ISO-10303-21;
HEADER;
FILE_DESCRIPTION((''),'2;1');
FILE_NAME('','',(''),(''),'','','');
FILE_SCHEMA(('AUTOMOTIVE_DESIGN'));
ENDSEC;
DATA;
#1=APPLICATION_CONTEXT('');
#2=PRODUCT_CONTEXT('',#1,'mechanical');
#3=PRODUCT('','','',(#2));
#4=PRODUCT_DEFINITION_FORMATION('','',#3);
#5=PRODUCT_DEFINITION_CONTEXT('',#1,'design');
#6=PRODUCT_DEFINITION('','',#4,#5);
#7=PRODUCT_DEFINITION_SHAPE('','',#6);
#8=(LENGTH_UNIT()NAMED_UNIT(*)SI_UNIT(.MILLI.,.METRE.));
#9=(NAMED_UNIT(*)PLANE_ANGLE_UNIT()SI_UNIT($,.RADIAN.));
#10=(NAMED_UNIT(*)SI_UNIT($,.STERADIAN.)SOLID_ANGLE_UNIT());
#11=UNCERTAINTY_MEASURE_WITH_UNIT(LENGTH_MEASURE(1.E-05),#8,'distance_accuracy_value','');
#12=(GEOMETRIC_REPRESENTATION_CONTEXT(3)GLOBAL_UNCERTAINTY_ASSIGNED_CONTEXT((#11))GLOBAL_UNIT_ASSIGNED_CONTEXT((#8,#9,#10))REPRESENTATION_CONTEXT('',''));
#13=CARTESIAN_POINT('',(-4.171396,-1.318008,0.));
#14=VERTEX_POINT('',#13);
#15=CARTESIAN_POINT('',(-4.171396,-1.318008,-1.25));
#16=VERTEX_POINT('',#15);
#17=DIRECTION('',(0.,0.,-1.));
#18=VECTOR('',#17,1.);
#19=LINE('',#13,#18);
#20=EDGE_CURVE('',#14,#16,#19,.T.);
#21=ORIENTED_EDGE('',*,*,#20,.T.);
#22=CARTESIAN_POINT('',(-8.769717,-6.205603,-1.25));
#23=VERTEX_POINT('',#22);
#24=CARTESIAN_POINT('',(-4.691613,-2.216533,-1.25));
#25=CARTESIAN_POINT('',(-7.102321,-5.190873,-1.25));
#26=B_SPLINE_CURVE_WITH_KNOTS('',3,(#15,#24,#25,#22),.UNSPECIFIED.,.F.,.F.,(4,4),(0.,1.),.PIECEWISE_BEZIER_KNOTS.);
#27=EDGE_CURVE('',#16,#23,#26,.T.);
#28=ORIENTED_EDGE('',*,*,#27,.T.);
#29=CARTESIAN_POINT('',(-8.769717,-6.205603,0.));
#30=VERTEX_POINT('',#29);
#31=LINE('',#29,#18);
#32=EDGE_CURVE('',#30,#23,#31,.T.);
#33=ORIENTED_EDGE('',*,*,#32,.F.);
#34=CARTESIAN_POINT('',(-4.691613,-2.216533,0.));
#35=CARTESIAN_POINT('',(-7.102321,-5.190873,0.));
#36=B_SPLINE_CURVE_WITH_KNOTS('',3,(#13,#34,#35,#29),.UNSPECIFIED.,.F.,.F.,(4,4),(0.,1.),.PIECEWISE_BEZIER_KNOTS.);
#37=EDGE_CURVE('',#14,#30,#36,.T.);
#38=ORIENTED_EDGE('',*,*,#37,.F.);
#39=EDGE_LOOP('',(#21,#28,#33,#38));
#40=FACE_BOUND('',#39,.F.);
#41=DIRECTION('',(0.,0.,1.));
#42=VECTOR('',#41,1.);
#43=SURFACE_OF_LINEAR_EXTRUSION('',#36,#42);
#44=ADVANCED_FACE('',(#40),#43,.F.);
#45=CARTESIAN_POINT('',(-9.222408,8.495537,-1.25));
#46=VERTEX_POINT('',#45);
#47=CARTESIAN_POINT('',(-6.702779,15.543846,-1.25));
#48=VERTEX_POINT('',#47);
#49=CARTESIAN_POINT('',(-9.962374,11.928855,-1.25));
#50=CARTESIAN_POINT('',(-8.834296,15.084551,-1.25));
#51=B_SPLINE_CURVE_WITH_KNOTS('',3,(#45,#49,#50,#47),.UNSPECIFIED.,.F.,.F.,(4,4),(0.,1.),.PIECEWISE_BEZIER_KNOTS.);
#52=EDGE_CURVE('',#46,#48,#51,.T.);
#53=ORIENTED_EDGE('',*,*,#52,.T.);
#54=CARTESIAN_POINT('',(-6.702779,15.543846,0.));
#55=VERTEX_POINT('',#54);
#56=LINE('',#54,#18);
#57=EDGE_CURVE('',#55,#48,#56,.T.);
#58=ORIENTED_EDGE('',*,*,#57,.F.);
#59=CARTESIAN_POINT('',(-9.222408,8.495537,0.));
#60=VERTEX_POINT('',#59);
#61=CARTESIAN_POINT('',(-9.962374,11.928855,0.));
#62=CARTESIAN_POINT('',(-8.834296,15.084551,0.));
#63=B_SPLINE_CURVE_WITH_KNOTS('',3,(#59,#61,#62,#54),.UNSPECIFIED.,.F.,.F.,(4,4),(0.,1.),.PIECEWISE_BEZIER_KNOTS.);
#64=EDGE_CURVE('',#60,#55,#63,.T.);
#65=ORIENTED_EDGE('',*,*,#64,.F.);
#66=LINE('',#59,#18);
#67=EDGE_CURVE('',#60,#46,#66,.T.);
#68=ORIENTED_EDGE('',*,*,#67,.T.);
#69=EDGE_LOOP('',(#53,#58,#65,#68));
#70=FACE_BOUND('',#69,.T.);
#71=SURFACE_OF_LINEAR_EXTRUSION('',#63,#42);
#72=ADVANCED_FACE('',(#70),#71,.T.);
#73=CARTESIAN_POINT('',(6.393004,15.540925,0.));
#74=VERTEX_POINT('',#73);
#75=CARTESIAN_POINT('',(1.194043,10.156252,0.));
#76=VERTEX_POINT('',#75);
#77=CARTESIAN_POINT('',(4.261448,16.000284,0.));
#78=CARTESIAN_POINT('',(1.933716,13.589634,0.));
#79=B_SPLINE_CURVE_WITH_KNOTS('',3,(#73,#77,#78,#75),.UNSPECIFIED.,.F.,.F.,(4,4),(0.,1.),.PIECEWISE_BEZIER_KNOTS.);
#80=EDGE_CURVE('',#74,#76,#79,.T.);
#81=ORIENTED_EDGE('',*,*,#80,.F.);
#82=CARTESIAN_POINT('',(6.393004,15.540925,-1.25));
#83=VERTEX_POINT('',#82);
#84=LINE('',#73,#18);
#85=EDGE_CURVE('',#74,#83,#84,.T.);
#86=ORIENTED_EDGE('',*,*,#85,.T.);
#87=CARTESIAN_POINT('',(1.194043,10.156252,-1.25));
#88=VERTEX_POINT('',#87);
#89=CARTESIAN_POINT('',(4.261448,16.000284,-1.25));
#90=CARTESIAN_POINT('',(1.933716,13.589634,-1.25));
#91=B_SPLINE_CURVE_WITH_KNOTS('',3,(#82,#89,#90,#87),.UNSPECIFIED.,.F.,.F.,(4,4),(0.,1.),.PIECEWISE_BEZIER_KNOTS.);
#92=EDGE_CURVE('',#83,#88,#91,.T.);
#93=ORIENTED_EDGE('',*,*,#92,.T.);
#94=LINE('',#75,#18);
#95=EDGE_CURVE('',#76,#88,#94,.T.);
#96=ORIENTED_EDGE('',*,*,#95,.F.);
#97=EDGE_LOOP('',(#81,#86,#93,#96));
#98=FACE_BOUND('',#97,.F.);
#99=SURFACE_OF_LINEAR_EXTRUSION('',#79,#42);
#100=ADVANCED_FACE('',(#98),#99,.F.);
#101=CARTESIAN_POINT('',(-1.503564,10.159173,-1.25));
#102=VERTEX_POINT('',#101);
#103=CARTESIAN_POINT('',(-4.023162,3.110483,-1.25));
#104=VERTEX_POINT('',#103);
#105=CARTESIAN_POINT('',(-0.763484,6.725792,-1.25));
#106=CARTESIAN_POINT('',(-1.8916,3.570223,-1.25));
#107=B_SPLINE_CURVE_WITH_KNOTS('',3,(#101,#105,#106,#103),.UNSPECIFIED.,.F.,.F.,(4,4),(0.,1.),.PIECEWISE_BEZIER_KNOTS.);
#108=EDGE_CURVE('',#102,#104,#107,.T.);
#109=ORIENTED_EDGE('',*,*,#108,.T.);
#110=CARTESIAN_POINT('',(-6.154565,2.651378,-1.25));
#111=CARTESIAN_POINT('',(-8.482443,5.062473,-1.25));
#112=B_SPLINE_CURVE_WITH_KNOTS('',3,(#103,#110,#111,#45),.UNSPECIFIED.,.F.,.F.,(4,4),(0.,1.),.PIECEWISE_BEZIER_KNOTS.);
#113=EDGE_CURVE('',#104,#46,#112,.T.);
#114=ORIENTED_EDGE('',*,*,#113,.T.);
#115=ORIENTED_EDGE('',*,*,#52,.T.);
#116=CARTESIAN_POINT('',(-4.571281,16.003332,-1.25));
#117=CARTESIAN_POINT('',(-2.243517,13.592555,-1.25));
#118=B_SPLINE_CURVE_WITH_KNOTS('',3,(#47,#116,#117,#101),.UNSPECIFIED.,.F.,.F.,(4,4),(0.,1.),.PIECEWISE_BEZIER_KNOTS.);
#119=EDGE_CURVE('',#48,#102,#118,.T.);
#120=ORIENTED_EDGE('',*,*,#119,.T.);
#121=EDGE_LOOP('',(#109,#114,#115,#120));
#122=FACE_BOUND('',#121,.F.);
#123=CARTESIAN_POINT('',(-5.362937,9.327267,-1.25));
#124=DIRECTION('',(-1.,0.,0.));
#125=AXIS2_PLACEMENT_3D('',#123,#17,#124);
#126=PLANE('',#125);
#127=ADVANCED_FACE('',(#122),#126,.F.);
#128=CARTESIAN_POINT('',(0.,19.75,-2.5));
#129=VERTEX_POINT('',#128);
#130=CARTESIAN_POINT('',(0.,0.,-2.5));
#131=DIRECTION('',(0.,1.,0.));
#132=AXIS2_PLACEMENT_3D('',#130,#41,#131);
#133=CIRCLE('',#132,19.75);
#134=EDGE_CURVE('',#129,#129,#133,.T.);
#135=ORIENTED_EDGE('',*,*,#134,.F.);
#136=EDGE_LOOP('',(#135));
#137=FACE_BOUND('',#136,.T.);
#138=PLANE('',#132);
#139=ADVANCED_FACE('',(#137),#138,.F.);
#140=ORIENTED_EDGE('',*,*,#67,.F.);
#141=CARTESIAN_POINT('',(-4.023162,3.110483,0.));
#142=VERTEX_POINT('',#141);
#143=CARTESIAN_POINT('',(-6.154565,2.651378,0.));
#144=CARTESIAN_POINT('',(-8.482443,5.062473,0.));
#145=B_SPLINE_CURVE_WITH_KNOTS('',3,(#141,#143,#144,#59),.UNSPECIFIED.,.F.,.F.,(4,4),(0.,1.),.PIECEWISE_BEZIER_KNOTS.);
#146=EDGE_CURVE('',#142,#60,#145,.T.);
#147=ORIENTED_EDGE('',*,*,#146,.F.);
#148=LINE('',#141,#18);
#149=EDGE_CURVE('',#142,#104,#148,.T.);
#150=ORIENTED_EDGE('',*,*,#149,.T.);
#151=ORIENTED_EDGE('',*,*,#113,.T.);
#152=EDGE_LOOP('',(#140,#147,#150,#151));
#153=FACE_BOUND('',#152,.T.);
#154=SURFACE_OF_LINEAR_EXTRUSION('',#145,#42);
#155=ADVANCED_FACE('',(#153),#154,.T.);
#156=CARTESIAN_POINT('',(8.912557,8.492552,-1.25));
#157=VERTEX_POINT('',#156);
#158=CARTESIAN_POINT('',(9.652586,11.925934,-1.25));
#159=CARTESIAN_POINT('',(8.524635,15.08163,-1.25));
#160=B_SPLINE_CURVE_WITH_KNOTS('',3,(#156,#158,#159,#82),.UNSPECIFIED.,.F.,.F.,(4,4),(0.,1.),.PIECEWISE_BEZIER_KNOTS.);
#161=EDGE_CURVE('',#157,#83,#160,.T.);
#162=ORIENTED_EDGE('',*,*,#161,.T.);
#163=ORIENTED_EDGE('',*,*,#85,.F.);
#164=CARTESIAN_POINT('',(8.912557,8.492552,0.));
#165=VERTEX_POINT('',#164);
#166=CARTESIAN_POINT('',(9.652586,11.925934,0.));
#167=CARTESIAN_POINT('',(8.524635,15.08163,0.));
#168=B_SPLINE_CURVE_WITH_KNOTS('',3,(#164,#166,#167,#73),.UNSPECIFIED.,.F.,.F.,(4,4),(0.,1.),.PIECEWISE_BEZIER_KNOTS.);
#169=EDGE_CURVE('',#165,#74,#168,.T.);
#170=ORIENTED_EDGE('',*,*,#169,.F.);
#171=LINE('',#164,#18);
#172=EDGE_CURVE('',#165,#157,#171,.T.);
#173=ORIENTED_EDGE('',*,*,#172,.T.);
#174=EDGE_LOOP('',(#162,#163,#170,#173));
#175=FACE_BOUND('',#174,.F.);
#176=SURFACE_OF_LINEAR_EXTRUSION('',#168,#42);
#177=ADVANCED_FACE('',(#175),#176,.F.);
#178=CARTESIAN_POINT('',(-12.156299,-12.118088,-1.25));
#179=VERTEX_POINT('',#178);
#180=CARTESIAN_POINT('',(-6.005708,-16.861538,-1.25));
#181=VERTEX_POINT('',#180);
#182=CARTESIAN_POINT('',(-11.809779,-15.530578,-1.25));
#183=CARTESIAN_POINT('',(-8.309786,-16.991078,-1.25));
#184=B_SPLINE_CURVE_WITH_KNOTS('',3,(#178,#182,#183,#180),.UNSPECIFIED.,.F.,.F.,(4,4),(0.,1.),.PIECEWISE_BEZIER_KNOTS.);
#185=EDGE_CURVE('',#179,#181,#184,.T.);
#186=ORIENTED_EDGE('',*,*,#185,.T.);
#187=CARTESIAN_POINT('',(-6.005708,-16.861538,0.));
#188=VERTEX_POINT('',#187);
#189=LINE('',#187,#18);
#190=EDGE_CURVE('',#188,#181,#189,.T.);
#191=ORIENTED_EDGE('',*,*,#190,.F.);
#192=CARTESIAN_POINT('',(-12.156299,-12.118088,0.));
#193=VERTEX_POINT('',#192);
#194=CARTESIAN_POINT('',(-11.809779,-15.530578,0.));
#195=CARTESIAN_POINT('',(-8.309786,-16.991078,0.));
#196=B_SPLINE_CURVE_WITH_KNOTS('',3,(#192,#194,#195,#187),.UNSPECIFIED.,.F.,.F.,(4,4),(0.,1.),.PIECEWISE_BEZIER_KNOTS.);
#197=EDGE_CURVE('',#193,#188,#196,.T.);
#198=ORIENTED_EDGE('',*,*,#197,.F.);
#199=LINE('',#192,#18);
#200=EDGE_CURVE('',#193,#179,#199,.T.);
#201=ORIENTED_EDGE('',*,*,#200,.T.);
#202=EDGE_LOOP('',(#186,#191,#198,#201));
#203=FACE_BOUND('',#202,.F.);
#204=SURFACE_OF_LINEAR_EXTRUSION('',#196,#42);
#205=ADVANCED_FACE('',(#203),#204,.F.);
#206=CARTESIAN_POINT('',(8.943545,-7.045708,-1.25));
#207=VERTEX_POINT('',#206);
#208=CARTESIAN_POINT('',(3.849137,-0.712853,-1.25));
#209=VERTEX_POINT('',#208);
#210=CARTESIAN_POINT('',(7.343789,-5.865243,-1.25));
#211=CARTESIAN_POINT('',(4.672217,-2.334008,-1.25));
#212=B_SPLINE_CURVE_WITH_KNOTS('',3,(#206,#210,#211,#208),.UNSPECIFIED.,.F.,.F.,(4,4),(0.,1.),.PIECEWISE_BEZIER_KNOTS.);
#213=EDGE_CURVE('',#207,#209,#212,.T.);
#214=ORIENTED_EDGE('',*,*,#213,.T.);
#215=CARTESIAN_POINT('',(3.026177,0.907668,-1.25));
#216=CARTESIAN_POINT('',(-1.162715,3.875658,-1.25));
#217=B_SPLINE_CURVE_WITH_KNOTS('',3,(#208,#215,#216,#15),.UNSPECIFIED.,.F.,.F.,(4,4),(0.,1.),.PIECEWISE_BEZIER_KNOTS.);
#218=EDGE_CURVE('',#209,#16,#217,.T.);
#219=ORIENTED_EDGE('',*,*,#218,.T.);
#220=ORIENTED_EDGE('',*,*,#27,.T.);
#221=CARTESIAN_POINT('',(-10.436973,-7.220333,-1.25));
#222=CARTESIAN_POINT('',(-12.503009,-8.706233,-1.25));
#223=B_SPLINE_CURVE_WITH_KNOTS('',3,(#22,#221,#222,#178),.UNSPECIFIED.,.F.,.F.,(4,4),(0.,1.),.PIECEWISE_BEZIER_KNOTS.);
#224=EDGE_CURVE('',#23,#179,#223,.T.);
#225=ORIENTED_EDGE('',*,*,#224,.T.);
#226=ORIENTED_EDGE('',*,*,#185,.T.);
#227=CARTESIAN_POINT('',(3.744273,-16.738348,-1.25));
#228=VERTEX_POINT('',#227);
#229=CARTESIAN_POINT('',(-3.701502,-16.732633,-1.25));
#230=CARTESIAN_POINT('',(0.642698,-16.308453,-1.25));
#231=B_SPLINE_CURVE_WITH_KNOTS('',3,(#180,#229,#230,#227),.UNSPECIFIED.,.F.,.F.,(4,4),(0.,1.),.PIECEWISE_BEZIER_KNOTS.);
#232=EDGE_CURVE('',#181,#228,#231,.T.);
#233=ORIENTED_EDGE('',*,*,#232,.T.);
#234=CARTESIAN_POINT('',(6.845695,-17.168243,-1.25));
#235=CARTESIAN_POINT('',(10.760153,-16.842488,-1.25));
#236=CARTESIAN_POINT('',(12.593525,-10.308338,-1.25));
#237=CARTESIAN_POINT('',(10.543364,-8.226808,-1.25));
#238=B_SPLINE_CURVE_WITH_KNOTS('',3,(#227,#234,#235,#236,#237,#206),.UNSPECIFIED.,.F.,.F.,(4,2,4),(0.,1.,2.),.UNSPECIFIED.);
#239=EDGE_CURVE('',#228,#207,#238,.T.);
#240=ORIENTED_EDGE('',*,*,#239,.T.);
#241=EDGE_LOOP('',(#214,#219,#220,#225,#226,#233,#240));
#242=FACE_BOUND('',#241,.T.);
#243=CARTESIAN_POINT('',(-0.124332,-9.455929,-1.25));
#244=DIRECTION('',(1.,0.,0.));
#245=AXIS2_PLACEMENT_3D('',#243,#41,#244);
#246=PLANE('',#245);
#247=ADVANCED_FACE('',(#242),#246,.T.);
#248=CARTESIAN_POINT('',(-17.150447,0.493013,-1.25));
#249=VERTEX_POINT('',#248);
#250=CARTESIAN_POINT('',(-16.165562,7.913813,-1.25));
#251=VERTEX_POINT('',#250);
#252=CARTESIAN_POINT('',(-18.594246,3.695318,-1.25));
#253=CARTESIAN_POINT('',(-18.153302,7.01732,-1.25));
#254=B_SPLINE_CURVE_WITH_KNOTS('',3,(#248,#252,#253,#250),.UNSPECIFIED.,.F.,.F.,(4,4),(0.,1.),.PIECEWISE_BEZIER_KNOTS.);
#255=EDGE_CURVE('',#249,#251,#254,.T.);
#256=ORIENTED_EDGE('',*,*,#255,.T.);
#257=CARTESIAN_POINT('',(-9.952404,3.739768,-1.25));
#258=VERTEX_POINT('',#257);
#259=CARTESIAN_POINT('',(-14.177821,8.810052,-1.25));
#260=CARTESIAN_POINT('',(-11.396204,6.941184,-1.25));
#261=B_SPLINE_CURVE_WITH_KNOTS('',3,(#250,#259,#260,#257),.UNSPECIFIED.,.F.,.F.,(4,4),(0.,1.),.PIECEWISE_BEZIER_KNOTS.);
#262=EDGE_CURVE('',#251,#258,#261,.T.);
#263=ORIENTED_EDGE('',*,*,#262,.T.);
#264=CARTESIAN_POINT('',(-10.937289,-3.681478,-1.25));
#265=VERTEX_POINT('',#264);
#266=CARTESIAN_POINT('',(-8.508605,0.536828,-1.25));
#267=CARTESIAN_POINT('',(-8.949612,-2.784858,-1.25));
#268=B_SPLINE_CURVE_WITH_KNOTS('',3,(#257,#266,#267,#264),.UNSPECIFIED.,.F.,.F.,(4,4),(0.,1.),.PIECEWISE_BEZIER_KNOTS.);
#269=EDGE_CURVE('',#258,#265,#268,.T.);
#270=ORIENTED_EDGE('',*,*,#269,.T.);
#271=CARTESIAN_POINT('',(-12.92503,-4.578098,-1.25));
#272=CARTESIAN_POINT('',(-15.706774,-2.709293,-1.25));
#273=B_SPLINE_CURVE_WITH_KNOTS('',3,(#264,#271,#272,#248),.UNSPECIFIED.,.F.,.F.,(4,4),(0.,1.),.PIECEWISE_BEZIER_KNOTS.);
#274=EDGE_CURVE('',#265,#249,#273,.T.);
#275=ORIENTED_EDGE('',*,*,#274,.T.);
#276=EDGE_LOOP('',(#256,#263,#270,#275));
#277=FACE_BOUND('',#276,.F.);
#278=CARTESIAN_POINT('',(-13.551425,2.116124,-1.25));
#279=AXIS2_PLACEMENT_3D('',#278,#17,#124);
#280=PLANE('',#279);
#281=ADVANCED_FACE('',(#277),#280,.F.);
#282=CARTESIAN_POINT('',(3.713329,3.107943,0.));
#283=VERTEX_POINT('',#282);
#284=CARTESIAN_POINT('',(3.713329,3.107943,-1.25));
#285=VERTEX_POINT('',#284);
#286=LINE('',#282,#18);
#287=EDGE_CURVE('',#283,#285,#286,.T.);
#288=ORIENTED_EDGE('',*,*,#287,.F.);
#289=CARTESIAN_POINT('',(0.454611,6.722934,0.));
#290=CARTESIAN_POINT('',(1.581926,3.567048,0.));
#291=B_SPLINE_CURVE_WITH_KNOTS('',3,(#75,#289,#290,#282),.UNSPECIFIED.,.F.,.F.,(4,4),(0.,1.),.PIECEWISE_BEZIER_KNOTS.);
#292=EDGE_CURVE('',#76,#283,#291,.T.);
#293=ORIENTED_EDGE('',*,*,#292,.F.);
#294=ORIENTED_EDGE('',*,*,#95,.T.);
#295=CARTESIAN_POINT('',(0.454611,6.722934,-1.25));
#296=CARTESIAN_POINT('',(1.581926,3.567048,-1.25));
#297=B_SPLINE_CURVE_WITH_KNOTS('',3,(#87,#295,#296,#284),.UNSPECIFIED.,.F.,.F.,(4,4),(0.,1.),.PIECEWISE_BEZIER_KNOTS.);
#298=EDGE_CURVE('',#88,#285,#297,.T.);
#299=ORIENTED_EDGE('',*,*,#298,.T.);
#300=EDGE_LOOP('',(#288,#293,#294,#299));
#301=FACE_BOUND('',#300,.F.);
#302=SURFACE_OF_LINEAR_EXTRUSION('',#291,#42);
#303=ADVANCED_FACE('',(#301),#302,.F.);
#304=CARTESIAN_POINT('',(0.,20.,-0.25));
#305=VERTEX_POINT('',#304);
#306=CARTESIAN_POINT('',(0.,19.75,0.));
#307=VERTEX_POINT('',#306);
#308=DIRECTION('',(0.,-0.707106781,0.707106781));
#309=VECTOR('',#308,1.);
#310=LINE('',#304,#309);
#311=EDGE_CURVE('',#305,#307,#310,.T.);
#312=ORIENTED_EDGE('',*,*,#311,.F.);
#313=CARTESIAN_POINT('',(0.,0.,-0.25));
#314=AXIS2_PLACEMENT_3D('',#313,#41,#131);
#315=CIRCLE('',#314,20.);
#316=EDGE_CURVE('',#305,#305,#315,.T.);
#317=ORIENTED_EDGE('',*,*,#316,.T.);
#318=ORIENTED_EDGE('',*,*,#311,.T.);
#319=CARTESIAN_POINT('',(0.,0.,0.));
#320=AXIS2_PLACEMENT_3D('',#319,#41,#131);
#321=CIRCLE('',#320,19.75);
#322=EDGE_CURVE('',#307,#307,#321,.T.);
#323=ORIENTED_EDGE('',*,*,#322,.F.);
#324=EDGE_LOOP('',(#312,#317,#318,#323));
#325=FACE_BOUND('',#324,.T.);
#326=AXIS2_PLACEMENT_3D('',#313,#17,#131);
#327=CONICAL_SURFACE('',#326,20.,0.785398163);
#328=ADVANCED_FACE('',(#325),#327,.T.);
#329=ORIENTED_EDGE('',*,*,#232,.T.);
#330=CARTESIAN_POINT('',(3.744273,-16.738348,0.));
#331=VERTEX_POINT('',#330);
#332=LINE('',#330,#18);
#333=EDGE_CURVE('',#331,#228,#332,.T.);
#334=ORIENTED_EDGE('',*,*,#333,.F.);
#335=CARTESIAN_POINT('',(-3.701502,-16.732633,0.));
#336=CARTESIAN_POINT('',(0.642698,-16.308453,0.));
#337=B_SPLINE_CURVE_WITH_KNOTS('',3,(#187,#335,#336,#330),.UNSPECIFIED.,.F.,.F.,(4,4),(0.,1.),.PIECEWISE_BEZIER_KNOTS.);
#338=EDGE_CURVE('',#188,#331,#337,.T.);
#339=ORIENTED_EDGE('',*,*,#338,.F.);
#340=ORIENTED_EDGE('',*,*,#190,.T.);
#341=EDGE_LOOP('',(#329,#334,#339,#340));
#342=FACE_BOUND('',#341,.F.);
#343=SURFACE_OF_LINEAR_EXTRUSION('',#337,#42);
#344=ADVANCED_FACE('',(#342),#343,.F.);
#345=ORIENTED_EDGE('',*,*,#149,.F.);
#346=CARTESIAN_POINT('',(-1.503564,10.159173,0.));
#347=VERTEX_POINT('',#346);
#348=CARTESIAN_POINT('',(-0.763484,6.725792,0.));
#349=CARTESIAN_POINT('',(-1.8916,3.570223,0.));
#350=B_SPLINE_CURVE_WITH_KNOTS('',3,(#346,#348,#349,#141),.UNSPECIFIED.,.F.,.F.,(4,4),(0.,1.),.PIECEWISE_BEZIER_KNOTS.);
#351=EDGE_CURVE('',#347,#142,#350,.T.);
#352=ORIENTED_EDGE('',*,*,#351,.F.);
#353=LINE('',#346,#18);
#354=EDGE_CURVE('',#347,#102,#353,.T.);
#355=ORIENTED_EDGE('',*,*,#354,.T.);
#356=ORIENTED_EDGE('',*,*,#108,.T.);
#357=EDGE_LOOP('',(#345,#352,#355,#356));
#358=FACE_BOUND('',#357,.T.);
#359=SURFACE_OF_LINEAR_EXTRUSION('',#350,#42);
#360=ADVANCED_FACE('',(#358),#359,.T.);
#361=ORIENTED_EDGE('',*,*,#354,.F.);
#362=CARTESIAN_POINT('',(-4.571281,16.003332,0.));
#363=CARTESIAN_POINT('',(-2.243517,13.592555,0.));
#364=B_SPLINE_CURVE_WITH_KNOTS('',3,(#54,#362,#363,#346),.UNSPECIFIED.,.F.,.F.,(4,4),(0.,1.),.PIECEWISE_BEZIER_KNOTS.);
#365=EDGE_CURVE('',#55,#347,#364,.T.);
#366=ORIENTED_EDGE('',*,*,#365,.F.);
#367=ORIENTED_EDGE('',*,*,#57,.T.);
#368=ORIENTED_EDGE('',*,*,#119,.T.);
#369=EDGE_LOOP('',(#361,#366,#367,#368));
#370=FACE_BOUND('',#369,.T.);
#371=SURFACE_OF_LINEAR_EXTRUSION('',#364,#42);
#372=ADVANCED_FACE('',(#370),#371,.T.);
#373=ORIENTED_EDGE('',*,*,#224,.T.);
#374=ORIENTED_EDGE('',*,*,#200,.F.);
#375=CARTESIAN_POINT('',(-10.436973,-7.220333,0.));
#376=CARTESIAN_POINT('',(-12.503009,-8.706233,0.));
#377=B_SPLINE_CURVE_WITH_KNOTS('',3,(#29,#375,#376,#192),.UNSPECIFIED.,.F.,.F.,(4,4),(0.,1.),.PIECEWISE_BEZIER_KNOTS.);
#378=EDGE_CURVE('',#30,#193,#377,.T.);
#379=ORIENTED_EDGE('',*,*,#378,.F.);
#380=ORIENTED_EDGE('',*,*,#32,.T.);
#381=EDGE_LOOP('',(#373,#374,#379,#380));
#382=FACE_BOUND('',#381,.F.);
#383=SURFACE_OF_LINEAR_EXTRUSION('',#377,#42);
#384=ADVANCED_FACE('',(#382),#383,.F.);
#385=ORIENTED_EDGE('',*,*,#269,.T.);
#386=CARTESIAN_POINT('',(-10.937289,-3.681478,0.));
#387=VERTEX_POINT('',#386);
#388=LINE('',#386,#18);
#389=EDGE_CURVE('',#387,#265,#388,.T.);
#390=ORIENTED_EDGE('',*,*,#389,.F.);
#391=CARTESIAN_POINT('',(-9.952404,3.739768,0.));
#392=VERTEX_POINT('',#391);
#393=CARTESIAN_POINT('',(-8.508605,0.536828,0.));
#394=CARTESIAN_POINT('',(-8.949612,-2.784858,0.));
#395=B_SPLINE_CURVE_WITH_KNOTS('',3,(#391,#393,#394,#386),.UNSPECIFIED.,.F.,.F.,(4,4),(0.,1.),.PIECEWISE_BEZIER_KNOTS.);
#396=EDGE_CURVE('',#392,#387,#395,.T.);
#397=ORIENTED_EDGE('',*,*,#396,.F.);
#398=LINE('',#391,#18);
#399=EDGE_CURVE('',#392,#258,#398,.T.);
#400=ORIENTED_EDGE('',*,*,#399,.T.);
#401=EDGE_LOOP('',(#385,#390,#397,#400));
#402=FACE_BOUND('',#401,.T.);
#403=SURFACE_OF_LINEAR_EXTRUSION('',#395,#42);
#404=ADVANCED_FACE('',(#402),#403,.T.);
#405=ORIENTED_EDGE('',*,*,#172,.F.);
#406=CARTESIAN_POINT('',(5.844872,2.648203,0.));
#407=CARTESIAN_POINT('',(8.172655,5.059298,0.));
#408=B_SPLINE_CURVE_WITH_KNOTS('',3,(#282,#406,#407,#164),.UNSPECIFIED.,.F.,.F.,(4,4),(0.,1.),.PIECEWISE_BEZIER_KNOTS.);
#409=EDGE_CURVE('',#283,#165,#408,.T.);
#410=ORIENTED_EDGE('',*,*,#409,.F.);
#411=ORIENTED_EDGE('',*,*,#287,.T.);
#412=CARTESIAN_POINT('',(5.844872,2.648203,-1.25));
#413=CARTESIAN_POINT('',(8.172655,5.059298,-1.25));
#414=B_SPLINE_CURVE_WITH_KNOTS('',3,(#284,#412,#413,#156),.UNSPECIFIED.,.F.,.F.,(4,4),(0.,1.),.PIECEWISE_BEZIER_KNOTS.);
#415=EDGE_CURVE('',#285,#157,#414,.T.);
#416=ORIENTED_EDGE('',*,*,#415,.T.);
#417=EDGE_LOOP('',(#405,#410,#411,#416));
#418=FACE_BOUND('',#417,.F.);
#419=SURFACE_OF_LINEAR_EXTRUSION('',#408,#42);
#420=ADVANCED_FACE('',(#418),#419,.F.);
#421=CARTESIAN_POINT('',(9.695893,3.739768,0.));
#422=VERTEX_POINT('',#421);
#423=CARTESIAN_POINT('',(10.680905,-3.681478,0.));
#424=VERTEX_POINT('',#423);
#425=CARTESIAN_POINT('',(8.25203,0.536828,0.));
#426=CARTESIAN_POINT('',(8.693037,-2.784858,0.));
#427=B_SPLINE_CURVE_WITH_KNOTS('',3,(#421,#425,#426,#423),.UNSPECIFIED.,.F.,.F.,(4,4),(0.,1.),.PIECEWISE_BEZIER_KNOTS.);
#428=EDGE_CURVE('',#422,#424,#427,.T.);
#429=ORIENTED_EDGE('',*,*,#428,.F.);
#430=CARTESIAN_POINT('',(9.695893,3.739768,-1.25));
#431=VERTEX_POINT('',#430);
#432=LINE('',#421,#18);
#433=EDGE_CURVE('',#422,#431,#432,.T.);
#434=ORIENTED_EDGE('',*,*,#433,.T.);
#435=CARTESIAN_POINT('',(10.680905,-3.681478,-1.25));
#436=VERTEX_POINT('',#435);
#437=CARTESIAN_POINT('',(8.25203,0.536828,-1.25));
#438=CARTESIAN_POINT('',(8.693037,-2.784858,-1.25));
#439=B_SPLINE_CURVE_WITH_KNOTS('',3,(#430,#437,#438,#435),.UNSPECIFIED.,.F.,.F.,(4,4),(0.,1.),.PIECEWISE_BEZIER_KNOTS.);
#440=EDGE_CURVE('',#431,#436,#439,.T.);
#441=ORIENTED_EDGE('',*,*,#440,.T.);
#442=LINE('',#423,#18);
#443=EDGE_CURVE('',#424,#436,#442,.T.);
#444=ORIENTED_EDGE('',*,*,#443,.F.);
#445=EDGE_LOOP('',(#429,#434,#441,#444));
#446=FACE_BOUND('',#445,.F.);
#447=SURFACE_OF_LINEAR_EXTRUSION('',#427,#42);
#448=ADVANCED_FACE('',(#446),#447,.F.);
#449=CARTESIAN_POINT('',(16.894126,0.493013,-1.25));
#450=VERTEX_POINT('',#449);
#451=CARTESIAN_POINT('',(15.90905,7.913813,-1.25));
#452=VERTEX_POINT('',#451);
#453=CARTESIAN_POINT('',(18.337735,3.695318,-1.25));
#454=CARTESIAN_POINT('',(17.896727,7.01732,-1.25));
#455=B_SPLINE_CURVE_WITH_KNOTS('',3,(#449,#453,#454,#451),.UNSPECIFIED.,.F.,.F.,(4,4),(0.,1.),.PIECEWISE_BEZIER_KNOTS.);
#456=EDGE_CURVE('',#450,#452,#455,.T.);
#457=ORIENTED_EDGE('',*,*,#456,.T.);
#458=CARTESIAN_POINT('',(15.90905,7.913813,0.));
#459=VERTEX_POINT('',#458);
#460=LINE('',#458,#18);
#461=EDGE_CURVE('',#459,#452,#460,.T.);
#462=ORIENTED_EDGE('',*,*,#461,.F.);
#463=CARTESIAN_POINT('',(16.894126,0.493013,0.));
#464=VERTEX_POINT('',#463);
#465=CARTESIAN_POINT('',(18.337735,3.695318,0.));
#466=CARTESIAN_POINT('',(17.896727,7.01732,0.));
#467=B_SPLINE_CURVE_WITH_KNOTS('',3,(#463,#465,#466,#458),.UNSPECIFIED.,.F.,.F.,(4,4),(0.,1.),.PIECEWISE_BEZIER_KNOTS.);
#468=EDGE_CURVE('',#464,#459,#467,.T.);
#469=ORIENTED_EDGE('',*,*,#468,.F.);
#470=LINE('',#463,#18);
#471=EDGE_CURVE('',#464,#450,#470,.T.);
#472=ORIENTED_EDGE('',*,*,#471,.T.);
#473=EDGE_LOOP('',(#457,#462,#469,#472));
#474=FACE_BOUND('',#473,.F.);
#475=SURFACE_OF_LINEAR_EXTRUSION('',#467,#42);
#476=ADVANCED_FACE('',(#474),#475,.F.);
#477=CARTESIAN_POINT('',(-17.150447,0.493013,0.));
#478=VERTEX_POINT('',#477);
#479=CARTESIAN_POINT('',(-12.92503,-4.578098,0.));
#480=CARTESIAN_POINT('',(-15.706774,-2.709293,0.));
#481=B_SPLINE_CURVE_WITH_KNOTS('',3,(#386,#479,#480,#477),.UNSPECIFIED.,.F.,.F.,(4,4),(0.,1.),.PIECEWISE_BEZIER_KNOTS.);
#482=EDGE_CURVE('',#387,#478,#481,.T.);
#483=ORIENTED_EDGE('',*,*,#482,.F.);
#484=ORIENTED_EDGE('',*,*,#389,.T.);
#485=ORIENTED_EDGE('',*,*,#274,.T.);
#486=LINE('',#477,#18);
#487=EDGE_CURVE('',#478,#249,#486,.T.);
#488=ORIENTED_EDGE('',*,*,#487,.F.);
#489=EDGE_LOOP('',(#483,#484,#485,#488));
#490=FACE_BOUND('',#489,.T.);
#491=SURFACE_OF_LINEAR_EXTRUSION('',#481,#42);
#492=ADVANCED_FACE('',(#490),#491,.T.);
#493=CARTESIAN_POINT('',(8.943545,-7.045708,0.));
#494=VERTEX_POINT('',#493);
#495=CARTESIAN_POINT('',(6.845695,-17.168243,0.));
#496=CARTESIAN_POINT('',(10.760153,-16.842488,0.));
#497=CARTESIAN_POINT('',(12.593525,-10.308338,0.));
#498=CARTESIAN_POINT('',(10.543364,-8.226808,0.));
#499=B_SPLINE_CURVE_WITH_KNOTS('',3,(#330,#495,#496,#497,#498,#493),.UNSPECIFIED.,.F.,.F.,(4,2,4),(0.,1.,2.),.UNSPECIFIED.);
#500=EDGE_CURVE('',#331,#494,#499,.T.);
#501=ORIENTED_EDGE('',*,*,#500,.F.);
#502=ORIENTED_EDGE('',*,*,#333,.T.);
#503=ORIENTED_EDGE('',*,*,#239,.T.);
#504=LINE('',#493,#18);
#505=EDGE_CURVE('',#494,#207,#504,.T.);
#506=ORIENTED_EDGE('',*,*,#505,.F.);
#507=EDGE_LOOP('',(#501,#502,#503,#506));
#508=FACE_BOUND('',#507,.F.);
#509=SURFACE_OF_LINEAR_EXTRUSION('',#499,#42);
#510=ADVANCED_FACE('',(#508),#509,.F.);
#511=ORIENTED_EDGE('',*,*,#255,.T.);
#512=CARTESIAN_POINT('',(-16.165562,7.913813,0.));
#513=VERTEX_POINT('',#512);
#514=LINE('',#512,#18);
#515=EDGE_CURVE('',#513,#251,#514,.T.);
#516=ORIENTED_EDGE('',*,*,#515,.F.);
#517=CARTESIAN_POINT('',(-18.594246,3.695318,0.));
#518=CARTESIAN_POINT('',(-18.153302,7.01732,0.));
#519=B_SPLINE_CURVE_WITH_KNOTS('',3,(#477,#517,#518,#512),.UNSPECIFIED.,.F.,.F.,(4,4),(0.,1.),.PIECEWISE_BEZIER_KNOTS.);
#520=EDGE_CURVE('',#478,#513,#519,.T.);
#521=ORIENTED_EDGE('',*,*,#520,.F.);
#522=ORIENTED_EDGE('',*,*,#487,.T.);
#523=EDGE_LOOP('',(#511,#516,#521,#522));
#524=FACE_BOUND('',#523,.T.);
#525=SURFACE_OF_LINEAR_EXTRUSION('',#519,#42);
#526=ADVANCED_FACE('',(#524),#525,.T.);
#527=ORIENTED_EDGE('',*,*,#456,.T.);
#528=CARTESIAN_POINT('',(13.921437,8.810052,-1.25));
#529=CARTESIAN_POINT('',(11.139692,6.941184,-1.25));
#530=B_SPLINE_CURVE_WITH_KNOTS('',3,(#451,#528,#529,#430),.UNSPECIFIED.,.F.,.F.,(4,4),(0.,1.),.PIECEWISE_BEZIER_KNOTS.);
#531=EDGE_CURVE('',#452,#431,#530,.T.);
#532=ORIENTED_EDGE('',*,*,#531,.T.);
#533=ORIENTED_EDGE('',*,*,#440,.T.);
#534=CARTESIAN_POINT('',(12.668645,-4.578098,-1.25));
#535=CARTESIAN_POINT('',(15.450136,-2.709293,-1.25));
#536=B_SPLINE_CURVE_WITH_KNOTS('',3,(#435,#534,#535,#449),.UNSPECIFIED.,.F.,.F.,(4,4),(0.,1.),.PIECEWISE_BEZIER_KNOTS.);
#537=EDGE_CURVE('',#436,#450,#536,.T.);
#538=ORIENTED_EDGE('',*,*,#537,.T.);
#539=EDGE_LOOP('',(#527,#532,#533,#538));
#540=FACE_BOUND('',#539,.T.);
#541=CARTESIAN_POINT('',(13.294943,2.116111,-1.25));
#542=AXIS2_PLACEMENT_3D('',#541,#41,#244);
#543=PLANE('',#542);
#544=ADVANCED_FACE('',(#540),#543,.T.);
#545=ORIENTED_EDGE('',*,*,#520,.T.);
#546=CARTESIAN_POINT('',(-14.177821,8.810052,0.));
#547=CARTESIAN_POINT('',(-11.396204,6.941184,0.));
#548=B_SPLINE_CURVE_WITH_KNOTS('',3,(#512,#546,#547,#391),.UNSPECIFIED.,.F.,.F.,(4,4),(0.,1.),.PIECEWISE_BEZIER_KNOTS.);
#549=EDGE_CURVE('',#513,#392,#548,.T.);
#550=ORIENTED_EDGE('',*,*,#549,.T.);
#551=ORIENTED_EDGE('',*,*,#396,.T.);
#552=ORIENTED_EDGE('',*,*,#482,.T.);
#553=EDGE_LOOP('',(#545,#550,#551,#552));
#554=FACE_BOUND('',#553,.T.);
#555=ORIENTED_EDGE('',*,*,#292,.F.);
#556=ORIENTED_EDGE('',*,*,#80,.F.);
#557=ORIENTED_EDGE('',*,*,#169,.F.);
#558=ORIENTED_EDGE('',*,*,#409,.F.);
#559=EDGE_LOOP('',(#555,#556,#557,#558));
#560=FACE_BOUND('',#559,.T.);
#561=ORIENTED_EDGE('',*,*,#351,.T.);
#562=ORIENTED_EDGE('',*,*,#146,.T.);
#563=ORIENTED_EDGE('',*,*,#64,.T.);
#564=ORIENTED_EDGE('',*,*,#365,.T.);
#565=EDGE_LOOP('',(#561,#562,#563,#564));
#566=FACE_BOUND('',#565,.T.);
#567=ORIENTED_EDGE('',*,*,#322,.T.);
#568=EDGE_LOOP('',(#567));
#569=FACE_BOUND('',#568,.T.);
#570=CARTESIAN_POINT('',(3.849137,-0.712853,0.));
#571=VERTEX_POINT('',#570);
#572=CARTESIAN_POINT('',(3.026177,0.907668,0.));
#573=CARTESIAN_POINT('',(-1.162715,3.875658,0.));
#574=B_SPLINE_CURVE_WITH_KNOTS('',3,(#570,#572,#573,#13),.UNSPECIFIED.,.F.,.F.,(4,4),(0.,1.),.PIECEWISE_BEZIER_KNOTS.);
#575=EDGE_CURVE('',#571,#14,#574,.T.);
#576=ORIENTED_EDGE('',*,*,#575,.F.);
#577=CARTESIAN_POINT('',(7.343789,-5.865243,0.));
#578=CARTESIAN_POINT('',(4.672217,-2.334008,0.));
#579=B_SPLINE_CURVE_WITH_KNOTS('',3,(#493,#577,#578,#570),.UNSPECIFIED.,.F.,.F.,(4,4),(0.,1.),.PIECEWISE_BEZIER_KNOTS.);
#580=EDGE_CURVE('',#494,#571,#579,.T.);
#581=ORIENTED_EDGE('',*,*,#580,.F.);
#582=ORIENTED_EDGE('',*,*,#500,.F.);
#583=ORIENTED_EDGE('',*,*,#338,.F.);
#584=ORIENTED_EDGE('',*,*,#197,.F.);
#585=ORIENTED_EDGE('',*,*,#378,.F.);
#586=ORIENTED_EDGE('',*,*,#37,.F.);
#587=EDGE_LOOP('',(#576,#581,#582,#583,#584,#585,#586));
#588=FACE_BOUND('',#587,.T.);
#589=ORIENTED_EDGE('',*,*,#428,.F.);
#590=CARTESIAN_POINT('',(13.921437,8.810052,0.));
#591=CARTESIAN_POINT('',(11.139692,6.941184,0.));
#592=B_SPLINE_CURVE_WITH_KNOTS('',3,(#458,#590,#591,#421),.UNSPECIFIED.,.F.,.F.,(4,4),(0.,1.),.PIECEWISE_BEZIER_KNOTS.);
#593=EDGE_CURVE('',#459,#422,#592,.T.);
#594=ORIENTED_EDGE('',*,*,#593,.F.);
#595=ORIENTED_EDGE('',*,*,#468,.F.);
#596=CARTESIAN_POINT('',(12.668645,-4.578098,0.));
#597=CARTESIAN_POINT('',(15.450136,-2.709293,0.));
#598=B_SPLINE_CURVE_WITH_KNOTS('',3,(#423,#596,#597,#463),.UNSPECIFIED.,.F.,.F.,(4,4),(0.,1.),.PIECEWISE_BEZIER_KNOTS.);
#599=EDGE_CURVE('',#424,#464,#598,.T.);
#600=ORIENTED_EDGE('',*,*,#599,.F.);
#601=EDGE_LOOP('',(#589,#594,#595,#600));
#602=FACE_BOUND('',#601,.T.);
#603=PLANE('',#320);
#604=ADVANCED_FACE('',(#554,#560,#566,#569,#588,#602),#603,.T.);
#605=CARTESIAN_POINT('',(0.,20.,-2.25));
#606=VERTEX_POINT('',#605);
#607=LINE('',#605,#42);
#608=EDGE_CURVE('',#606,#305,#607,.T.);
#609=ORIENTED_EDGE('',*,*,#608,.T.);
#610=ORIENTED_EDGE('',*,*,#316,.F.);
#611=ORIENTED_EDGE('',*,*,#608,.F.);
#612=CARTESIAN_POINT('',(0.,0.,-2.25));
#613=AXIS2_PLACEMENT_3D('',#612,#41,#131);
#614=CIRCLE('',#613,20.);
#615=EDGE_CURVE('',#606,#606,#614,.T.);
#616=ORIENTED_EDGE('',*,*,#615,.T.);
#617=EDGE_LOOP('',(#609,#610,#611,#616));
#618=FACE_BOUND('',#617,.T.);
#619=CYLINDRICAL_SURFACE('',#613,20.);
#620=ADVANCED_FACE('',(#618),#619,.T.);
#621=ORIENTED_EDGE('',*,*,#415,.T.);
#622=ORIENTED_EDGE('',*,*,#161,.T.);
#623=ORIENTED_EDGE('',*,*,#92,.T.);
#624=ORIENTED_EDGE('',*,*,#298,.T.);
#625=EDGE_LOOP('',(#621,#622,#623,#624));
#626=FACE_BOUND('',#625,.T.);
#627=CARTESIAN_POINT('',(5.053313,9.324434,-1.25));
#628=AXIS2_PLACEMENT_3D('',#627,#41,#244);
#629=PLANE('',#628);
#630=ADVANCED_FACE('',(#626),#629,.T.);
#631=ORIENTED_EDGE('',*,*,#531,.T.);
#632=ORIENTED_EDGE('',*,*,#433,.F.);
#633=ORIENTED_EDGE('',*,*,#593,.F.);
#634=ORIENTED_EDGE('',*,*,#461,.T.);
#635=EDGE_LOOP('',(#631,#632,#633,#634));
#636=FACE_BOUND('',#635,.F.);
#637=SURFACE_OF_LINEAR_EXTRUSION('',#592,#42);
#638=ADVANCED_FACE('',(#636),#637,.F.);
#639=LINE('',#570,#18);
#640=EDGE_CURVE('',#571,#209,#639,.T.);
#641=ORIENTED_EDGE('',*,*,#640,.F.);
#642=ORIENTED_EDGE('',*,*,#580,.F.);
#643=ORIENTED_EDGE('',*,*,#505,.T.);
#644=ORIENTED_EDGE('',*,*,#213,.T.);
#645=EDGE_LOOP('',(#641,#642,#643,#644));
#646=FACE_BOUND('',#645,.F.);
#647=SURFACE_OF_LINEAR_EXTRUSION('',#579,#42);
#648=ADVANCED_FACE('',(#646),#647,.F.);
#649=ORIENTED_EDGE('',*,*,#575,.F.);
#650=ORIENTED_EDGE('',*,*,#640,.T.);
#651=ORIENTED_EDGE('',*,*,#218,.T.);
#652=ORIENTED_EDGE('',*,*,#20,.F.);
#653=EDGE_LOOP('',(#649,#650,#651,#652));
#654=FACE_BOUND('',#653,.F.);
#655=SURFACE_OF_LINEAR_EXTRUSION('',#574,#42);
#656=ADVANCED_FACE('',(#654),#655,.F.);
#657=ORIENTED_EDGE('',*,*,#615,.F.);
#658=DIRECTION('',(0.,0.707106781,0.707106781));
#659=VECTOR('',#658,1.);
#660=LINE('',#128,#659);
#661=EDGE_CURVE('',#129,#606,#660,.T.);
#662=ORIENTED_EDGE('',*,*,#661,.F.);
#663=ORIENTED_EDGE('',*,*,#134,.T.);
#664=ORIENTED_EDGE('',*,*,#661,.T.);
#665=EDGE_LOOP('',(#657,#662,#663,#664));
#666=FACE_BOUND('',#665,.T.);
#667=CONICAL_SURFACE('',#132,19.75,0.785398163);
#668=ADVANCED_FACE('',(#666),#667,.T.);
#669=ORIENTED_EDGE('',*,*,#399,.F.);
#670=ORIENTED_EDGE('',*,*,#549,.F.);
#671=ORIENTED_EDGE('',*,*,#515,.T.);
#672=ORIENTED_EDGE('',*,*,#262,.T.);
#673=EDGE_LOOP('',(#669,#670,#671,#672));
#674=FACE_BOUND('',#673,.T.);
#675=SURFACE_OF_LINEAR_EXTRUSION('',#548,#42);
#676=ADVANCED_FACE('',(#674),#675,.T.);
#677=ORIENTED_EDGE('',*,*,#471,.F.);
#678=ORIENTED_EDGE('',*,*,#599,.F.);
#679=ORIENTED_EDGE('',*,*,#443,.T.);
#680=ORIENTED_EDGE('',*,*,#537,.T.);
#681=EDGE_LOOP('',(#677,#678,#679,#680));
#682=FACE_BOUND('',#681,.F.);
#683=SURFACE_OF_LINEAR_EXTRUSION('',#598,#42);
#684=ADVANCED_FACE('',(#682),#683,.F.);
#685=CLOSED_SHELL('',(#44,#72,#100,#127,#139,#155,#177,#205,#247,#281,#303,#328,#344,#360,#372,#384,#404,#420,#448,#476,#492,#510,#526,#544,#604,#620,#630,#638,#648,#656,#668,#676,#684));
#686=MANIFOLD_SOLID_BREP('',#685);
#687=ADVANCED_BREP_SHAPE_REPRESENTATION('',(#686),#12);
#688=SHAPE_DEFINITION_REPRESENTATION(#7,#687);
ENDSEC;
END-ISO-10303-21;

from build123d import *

# Parameters (mm, degrees)
POCKET_DEPTH = 1.25


with BuildPart() as part:
    # Sketch (on DatumPlane) → Revolution (revolve)
    with BuildSketch(Plane.YZ):
        Polygon((0, 0), (0, -2.5), (19.75, -2.5), (20, -2.25), (20, -0.25), (19.75, 0), align=None)
    revolve(axis=Axis((0, 0, 0), (0, 0, 1)))

    # Sketch005 → Pocket (cut)
    with BuildSketch(Plane.XY):
        with BuildLine():
            add(Edge.make_bspline(
                [(-9.952404, 3.739768), (-8.508605, 0.536828), (-8.949612, -2.784858), (-10.937289, -3.681478)],
                knots=[0, 0, 0, 0, 1, 1, 1, 1], degree=3))
            add(Edge.make_bspline(
                [(-10.937289, -3.681478), (-12.92503, -4.578098), (-15.706774, -2.709293), (-17.150447, 0.493013)],
                knots=[0, 0, 0, 0, 1, 1, 1, 1], degree=3))
            add(Edge.make_bspline(
                [(-17.150447, 0.493013), (-18.594246, 3.695318), (-18.153302, 7.01732), (-16.165562, 7.913813)],
                knots=[0, 0, 0, 0, 1, 1, 1, 1], degree=3))
            add(Edge.make_bspline(
                [(-16.165562, 7.913813), (-14.177821, 8.810052), (-11.396204, 6.941184), (-9.952404, 3.739768)],
                knots=[0, 0, 0, 0, 1, 1, 1, 1], degree=3))
        make_face()
        with BuildLine():
            add(Edge.make_bspline(
                [(9.695893, 3.739768), (8.25203, 0.536828), (8.693037, -2.784858), (10.680905, -3.681478)],
                knots=[0, 0, 0, 0, 1, 1, 1, 1], degree=3))
            add(Edge.make_bspline(
                [(10.680905, -3.681478), (12.668645, -4.578098), (15.450136, -2.709293), (16.894126, 0.493013)],
                knots=[0, 0, 0, 0, 1, 1, 1, 1], degree=3))
            add(Edge.make_bspline(
                [(16.894126, 0.493013), (18.337735, 3.695318), (17.896727, 7.01732), (15.90905, 7.913813)],
                knots=[0, 0, 0, 0, 1, 1, 1, 1], degree=3))
            add(Edge.make_bspline(
                [(15.90905, 7.913813), (13.921437, 8.810052), (11.139692, 6.941184), (9.695893, 3.739768)],
                knots=[0, 0, 0, 0, 1, 1, 1, 1], degree=3))
        make_face()
        with BuildLine():
            add(Edge.make_bspline(
                [(-1.503564, 10.159173), (-0.763484, 6.725792), (-1.8916, 3.570223), (-4.023162, 3.110483)],
                knots=[0, 0, 0, 0, 1, 1, 1, 1], degree=3))
            add(Edge.make_bspline(
                [(-4.023162, 3.110483), (-6.154565, 2.651378), (-8.482443, 5.062473), (-9.222408, 8.495537)],
                knots=[0, 0, 0, 0, 1, 1, 1, 1], degree=3))
            add(Edge.make_bspline(
                [(-9.222408, 8.495537), (-9.962374, 11.928855), (-8.834296, 15.084551), (-6.702779, 15.543846)],
                knots=[0, 0, 0, 0, 1, 1, 1, 1], degree=3))
            add(Edge.make_bspline(
                [(-6.702779, 15.543846), (-4.571281, 16.003332), (-2.243517, 13.592555), (-1.503564, 10.159173)],
                knots=[0, 0, 0, 0, 1, 1, 1, 1], degree=3))
        make_face()
        with BuildLine():
            add(Edge.make_bspline(
                [(1.194043, 10.156252), (0.454611, 6.722934), (1.581926, 3.567048), (3.713329, 3.107943)],
                knots=[0, 0, 0, 0, 1, 1, 1, 1], degree=3))
            add(Edge.make_bspline(
                [(3.713329, 3.107943), (5.844872, 2.648203), (8.172655, 5.059298), (8.912557, 8.492552)],
                knots=[0, 0, 0, 0, 1, 1, 1, 1], degree=3))
            add(Edge.make_bspline(
                [(8.912557, 8.492552), (9.652586, 11.925934), (8.524635, 15.08163), (6.393004, 15.540925)],
                knots=[0, 0, 0, 0, 1, 1, 1, 1], degree=3))
            add(Edge.make_bspline(
                [(6.393004, 15.540925), (4.261448, 16.000284), (1.933716, 13.589634), (1.194043, 10.156252)],
                knots=[0, 0, 0, 0, 1, 1, 1, 1], degree=3))
        make_face()
        with BuildLine():
            add(Edge.make_bspline(
                [(-4.171396, -1.318008), (-4.691613, -2.216533), (-7.102321, -5.190873), (-8.769717, -6.205603)],
                knots=[0, 0, 0, 0, 1, 1, 1, 1], degree=3))
            add(Edge.make_bspline(
                [(-8.769717, -6.205603), (-10.436973, -7.220333), (-12.503009, -8.706233), (-12.156299, -12.118088)],
                knots=[0, 0, 0, 0, 1, 1, 1, 1], degree=3))
            add(Edge.make_bspline(
                [(-12.156299, -12.118088), (-11.809779, -15.530578), (-8.309786, -16.991078), (-6.005708, -16.861538)],
                knots=[0, 0, 0, 0, 1, 1, 1, 1], degree=3))
            add(Edge.make_bspline(
                [(-6.005708, -16.861538), (-3.701502, -16.732633), (0.642698, -16.308453), (3.744273, -16.738348)],
                knots=[0, 0, 0, 0, 1, 1, 1, 1], degree=3))
            add(Edge.make_bspline(
                [(3.744273, -16.738348), (6.845695, -17.168243), (10.760153, -16.842488), (11.676839, -13.575413)],
                knots=[0, 0, 0, 0, 1, 1, 1, 1], degree=3))
            add(Edge.make_bspline(
                [(11.676839, -13.575413), (12.593525, -10.308338), (10.543364, -8.226808), (8.943545, -7.045708)],
                knots=[0, 0, 0, 0, 1, 1, 1, 1], degree=3))
            add(Edge.make_bspline(
                [(8.943545, -7.045708), (7.343789, -5.865243), (4.672217, -2.334008), (3.849137, -0.712853)],
                knots=[0, 0, 0, 0, 1, 1, 1, 1], degree=3))
            add(Edge.make_bspline(
                [(3.849137, -0.712853), (3.026177, 0.907668), (-1.162715, 3.875658), (-4.171396, -1.318008)],
                knots=[0, 0, 0, 0, 1, 1, 1, 1], degree=3))
        make_face()
    extrude(amount=-POCKET_DEPTH, mode=Mode.SUBTRACT)


solid = part.part
